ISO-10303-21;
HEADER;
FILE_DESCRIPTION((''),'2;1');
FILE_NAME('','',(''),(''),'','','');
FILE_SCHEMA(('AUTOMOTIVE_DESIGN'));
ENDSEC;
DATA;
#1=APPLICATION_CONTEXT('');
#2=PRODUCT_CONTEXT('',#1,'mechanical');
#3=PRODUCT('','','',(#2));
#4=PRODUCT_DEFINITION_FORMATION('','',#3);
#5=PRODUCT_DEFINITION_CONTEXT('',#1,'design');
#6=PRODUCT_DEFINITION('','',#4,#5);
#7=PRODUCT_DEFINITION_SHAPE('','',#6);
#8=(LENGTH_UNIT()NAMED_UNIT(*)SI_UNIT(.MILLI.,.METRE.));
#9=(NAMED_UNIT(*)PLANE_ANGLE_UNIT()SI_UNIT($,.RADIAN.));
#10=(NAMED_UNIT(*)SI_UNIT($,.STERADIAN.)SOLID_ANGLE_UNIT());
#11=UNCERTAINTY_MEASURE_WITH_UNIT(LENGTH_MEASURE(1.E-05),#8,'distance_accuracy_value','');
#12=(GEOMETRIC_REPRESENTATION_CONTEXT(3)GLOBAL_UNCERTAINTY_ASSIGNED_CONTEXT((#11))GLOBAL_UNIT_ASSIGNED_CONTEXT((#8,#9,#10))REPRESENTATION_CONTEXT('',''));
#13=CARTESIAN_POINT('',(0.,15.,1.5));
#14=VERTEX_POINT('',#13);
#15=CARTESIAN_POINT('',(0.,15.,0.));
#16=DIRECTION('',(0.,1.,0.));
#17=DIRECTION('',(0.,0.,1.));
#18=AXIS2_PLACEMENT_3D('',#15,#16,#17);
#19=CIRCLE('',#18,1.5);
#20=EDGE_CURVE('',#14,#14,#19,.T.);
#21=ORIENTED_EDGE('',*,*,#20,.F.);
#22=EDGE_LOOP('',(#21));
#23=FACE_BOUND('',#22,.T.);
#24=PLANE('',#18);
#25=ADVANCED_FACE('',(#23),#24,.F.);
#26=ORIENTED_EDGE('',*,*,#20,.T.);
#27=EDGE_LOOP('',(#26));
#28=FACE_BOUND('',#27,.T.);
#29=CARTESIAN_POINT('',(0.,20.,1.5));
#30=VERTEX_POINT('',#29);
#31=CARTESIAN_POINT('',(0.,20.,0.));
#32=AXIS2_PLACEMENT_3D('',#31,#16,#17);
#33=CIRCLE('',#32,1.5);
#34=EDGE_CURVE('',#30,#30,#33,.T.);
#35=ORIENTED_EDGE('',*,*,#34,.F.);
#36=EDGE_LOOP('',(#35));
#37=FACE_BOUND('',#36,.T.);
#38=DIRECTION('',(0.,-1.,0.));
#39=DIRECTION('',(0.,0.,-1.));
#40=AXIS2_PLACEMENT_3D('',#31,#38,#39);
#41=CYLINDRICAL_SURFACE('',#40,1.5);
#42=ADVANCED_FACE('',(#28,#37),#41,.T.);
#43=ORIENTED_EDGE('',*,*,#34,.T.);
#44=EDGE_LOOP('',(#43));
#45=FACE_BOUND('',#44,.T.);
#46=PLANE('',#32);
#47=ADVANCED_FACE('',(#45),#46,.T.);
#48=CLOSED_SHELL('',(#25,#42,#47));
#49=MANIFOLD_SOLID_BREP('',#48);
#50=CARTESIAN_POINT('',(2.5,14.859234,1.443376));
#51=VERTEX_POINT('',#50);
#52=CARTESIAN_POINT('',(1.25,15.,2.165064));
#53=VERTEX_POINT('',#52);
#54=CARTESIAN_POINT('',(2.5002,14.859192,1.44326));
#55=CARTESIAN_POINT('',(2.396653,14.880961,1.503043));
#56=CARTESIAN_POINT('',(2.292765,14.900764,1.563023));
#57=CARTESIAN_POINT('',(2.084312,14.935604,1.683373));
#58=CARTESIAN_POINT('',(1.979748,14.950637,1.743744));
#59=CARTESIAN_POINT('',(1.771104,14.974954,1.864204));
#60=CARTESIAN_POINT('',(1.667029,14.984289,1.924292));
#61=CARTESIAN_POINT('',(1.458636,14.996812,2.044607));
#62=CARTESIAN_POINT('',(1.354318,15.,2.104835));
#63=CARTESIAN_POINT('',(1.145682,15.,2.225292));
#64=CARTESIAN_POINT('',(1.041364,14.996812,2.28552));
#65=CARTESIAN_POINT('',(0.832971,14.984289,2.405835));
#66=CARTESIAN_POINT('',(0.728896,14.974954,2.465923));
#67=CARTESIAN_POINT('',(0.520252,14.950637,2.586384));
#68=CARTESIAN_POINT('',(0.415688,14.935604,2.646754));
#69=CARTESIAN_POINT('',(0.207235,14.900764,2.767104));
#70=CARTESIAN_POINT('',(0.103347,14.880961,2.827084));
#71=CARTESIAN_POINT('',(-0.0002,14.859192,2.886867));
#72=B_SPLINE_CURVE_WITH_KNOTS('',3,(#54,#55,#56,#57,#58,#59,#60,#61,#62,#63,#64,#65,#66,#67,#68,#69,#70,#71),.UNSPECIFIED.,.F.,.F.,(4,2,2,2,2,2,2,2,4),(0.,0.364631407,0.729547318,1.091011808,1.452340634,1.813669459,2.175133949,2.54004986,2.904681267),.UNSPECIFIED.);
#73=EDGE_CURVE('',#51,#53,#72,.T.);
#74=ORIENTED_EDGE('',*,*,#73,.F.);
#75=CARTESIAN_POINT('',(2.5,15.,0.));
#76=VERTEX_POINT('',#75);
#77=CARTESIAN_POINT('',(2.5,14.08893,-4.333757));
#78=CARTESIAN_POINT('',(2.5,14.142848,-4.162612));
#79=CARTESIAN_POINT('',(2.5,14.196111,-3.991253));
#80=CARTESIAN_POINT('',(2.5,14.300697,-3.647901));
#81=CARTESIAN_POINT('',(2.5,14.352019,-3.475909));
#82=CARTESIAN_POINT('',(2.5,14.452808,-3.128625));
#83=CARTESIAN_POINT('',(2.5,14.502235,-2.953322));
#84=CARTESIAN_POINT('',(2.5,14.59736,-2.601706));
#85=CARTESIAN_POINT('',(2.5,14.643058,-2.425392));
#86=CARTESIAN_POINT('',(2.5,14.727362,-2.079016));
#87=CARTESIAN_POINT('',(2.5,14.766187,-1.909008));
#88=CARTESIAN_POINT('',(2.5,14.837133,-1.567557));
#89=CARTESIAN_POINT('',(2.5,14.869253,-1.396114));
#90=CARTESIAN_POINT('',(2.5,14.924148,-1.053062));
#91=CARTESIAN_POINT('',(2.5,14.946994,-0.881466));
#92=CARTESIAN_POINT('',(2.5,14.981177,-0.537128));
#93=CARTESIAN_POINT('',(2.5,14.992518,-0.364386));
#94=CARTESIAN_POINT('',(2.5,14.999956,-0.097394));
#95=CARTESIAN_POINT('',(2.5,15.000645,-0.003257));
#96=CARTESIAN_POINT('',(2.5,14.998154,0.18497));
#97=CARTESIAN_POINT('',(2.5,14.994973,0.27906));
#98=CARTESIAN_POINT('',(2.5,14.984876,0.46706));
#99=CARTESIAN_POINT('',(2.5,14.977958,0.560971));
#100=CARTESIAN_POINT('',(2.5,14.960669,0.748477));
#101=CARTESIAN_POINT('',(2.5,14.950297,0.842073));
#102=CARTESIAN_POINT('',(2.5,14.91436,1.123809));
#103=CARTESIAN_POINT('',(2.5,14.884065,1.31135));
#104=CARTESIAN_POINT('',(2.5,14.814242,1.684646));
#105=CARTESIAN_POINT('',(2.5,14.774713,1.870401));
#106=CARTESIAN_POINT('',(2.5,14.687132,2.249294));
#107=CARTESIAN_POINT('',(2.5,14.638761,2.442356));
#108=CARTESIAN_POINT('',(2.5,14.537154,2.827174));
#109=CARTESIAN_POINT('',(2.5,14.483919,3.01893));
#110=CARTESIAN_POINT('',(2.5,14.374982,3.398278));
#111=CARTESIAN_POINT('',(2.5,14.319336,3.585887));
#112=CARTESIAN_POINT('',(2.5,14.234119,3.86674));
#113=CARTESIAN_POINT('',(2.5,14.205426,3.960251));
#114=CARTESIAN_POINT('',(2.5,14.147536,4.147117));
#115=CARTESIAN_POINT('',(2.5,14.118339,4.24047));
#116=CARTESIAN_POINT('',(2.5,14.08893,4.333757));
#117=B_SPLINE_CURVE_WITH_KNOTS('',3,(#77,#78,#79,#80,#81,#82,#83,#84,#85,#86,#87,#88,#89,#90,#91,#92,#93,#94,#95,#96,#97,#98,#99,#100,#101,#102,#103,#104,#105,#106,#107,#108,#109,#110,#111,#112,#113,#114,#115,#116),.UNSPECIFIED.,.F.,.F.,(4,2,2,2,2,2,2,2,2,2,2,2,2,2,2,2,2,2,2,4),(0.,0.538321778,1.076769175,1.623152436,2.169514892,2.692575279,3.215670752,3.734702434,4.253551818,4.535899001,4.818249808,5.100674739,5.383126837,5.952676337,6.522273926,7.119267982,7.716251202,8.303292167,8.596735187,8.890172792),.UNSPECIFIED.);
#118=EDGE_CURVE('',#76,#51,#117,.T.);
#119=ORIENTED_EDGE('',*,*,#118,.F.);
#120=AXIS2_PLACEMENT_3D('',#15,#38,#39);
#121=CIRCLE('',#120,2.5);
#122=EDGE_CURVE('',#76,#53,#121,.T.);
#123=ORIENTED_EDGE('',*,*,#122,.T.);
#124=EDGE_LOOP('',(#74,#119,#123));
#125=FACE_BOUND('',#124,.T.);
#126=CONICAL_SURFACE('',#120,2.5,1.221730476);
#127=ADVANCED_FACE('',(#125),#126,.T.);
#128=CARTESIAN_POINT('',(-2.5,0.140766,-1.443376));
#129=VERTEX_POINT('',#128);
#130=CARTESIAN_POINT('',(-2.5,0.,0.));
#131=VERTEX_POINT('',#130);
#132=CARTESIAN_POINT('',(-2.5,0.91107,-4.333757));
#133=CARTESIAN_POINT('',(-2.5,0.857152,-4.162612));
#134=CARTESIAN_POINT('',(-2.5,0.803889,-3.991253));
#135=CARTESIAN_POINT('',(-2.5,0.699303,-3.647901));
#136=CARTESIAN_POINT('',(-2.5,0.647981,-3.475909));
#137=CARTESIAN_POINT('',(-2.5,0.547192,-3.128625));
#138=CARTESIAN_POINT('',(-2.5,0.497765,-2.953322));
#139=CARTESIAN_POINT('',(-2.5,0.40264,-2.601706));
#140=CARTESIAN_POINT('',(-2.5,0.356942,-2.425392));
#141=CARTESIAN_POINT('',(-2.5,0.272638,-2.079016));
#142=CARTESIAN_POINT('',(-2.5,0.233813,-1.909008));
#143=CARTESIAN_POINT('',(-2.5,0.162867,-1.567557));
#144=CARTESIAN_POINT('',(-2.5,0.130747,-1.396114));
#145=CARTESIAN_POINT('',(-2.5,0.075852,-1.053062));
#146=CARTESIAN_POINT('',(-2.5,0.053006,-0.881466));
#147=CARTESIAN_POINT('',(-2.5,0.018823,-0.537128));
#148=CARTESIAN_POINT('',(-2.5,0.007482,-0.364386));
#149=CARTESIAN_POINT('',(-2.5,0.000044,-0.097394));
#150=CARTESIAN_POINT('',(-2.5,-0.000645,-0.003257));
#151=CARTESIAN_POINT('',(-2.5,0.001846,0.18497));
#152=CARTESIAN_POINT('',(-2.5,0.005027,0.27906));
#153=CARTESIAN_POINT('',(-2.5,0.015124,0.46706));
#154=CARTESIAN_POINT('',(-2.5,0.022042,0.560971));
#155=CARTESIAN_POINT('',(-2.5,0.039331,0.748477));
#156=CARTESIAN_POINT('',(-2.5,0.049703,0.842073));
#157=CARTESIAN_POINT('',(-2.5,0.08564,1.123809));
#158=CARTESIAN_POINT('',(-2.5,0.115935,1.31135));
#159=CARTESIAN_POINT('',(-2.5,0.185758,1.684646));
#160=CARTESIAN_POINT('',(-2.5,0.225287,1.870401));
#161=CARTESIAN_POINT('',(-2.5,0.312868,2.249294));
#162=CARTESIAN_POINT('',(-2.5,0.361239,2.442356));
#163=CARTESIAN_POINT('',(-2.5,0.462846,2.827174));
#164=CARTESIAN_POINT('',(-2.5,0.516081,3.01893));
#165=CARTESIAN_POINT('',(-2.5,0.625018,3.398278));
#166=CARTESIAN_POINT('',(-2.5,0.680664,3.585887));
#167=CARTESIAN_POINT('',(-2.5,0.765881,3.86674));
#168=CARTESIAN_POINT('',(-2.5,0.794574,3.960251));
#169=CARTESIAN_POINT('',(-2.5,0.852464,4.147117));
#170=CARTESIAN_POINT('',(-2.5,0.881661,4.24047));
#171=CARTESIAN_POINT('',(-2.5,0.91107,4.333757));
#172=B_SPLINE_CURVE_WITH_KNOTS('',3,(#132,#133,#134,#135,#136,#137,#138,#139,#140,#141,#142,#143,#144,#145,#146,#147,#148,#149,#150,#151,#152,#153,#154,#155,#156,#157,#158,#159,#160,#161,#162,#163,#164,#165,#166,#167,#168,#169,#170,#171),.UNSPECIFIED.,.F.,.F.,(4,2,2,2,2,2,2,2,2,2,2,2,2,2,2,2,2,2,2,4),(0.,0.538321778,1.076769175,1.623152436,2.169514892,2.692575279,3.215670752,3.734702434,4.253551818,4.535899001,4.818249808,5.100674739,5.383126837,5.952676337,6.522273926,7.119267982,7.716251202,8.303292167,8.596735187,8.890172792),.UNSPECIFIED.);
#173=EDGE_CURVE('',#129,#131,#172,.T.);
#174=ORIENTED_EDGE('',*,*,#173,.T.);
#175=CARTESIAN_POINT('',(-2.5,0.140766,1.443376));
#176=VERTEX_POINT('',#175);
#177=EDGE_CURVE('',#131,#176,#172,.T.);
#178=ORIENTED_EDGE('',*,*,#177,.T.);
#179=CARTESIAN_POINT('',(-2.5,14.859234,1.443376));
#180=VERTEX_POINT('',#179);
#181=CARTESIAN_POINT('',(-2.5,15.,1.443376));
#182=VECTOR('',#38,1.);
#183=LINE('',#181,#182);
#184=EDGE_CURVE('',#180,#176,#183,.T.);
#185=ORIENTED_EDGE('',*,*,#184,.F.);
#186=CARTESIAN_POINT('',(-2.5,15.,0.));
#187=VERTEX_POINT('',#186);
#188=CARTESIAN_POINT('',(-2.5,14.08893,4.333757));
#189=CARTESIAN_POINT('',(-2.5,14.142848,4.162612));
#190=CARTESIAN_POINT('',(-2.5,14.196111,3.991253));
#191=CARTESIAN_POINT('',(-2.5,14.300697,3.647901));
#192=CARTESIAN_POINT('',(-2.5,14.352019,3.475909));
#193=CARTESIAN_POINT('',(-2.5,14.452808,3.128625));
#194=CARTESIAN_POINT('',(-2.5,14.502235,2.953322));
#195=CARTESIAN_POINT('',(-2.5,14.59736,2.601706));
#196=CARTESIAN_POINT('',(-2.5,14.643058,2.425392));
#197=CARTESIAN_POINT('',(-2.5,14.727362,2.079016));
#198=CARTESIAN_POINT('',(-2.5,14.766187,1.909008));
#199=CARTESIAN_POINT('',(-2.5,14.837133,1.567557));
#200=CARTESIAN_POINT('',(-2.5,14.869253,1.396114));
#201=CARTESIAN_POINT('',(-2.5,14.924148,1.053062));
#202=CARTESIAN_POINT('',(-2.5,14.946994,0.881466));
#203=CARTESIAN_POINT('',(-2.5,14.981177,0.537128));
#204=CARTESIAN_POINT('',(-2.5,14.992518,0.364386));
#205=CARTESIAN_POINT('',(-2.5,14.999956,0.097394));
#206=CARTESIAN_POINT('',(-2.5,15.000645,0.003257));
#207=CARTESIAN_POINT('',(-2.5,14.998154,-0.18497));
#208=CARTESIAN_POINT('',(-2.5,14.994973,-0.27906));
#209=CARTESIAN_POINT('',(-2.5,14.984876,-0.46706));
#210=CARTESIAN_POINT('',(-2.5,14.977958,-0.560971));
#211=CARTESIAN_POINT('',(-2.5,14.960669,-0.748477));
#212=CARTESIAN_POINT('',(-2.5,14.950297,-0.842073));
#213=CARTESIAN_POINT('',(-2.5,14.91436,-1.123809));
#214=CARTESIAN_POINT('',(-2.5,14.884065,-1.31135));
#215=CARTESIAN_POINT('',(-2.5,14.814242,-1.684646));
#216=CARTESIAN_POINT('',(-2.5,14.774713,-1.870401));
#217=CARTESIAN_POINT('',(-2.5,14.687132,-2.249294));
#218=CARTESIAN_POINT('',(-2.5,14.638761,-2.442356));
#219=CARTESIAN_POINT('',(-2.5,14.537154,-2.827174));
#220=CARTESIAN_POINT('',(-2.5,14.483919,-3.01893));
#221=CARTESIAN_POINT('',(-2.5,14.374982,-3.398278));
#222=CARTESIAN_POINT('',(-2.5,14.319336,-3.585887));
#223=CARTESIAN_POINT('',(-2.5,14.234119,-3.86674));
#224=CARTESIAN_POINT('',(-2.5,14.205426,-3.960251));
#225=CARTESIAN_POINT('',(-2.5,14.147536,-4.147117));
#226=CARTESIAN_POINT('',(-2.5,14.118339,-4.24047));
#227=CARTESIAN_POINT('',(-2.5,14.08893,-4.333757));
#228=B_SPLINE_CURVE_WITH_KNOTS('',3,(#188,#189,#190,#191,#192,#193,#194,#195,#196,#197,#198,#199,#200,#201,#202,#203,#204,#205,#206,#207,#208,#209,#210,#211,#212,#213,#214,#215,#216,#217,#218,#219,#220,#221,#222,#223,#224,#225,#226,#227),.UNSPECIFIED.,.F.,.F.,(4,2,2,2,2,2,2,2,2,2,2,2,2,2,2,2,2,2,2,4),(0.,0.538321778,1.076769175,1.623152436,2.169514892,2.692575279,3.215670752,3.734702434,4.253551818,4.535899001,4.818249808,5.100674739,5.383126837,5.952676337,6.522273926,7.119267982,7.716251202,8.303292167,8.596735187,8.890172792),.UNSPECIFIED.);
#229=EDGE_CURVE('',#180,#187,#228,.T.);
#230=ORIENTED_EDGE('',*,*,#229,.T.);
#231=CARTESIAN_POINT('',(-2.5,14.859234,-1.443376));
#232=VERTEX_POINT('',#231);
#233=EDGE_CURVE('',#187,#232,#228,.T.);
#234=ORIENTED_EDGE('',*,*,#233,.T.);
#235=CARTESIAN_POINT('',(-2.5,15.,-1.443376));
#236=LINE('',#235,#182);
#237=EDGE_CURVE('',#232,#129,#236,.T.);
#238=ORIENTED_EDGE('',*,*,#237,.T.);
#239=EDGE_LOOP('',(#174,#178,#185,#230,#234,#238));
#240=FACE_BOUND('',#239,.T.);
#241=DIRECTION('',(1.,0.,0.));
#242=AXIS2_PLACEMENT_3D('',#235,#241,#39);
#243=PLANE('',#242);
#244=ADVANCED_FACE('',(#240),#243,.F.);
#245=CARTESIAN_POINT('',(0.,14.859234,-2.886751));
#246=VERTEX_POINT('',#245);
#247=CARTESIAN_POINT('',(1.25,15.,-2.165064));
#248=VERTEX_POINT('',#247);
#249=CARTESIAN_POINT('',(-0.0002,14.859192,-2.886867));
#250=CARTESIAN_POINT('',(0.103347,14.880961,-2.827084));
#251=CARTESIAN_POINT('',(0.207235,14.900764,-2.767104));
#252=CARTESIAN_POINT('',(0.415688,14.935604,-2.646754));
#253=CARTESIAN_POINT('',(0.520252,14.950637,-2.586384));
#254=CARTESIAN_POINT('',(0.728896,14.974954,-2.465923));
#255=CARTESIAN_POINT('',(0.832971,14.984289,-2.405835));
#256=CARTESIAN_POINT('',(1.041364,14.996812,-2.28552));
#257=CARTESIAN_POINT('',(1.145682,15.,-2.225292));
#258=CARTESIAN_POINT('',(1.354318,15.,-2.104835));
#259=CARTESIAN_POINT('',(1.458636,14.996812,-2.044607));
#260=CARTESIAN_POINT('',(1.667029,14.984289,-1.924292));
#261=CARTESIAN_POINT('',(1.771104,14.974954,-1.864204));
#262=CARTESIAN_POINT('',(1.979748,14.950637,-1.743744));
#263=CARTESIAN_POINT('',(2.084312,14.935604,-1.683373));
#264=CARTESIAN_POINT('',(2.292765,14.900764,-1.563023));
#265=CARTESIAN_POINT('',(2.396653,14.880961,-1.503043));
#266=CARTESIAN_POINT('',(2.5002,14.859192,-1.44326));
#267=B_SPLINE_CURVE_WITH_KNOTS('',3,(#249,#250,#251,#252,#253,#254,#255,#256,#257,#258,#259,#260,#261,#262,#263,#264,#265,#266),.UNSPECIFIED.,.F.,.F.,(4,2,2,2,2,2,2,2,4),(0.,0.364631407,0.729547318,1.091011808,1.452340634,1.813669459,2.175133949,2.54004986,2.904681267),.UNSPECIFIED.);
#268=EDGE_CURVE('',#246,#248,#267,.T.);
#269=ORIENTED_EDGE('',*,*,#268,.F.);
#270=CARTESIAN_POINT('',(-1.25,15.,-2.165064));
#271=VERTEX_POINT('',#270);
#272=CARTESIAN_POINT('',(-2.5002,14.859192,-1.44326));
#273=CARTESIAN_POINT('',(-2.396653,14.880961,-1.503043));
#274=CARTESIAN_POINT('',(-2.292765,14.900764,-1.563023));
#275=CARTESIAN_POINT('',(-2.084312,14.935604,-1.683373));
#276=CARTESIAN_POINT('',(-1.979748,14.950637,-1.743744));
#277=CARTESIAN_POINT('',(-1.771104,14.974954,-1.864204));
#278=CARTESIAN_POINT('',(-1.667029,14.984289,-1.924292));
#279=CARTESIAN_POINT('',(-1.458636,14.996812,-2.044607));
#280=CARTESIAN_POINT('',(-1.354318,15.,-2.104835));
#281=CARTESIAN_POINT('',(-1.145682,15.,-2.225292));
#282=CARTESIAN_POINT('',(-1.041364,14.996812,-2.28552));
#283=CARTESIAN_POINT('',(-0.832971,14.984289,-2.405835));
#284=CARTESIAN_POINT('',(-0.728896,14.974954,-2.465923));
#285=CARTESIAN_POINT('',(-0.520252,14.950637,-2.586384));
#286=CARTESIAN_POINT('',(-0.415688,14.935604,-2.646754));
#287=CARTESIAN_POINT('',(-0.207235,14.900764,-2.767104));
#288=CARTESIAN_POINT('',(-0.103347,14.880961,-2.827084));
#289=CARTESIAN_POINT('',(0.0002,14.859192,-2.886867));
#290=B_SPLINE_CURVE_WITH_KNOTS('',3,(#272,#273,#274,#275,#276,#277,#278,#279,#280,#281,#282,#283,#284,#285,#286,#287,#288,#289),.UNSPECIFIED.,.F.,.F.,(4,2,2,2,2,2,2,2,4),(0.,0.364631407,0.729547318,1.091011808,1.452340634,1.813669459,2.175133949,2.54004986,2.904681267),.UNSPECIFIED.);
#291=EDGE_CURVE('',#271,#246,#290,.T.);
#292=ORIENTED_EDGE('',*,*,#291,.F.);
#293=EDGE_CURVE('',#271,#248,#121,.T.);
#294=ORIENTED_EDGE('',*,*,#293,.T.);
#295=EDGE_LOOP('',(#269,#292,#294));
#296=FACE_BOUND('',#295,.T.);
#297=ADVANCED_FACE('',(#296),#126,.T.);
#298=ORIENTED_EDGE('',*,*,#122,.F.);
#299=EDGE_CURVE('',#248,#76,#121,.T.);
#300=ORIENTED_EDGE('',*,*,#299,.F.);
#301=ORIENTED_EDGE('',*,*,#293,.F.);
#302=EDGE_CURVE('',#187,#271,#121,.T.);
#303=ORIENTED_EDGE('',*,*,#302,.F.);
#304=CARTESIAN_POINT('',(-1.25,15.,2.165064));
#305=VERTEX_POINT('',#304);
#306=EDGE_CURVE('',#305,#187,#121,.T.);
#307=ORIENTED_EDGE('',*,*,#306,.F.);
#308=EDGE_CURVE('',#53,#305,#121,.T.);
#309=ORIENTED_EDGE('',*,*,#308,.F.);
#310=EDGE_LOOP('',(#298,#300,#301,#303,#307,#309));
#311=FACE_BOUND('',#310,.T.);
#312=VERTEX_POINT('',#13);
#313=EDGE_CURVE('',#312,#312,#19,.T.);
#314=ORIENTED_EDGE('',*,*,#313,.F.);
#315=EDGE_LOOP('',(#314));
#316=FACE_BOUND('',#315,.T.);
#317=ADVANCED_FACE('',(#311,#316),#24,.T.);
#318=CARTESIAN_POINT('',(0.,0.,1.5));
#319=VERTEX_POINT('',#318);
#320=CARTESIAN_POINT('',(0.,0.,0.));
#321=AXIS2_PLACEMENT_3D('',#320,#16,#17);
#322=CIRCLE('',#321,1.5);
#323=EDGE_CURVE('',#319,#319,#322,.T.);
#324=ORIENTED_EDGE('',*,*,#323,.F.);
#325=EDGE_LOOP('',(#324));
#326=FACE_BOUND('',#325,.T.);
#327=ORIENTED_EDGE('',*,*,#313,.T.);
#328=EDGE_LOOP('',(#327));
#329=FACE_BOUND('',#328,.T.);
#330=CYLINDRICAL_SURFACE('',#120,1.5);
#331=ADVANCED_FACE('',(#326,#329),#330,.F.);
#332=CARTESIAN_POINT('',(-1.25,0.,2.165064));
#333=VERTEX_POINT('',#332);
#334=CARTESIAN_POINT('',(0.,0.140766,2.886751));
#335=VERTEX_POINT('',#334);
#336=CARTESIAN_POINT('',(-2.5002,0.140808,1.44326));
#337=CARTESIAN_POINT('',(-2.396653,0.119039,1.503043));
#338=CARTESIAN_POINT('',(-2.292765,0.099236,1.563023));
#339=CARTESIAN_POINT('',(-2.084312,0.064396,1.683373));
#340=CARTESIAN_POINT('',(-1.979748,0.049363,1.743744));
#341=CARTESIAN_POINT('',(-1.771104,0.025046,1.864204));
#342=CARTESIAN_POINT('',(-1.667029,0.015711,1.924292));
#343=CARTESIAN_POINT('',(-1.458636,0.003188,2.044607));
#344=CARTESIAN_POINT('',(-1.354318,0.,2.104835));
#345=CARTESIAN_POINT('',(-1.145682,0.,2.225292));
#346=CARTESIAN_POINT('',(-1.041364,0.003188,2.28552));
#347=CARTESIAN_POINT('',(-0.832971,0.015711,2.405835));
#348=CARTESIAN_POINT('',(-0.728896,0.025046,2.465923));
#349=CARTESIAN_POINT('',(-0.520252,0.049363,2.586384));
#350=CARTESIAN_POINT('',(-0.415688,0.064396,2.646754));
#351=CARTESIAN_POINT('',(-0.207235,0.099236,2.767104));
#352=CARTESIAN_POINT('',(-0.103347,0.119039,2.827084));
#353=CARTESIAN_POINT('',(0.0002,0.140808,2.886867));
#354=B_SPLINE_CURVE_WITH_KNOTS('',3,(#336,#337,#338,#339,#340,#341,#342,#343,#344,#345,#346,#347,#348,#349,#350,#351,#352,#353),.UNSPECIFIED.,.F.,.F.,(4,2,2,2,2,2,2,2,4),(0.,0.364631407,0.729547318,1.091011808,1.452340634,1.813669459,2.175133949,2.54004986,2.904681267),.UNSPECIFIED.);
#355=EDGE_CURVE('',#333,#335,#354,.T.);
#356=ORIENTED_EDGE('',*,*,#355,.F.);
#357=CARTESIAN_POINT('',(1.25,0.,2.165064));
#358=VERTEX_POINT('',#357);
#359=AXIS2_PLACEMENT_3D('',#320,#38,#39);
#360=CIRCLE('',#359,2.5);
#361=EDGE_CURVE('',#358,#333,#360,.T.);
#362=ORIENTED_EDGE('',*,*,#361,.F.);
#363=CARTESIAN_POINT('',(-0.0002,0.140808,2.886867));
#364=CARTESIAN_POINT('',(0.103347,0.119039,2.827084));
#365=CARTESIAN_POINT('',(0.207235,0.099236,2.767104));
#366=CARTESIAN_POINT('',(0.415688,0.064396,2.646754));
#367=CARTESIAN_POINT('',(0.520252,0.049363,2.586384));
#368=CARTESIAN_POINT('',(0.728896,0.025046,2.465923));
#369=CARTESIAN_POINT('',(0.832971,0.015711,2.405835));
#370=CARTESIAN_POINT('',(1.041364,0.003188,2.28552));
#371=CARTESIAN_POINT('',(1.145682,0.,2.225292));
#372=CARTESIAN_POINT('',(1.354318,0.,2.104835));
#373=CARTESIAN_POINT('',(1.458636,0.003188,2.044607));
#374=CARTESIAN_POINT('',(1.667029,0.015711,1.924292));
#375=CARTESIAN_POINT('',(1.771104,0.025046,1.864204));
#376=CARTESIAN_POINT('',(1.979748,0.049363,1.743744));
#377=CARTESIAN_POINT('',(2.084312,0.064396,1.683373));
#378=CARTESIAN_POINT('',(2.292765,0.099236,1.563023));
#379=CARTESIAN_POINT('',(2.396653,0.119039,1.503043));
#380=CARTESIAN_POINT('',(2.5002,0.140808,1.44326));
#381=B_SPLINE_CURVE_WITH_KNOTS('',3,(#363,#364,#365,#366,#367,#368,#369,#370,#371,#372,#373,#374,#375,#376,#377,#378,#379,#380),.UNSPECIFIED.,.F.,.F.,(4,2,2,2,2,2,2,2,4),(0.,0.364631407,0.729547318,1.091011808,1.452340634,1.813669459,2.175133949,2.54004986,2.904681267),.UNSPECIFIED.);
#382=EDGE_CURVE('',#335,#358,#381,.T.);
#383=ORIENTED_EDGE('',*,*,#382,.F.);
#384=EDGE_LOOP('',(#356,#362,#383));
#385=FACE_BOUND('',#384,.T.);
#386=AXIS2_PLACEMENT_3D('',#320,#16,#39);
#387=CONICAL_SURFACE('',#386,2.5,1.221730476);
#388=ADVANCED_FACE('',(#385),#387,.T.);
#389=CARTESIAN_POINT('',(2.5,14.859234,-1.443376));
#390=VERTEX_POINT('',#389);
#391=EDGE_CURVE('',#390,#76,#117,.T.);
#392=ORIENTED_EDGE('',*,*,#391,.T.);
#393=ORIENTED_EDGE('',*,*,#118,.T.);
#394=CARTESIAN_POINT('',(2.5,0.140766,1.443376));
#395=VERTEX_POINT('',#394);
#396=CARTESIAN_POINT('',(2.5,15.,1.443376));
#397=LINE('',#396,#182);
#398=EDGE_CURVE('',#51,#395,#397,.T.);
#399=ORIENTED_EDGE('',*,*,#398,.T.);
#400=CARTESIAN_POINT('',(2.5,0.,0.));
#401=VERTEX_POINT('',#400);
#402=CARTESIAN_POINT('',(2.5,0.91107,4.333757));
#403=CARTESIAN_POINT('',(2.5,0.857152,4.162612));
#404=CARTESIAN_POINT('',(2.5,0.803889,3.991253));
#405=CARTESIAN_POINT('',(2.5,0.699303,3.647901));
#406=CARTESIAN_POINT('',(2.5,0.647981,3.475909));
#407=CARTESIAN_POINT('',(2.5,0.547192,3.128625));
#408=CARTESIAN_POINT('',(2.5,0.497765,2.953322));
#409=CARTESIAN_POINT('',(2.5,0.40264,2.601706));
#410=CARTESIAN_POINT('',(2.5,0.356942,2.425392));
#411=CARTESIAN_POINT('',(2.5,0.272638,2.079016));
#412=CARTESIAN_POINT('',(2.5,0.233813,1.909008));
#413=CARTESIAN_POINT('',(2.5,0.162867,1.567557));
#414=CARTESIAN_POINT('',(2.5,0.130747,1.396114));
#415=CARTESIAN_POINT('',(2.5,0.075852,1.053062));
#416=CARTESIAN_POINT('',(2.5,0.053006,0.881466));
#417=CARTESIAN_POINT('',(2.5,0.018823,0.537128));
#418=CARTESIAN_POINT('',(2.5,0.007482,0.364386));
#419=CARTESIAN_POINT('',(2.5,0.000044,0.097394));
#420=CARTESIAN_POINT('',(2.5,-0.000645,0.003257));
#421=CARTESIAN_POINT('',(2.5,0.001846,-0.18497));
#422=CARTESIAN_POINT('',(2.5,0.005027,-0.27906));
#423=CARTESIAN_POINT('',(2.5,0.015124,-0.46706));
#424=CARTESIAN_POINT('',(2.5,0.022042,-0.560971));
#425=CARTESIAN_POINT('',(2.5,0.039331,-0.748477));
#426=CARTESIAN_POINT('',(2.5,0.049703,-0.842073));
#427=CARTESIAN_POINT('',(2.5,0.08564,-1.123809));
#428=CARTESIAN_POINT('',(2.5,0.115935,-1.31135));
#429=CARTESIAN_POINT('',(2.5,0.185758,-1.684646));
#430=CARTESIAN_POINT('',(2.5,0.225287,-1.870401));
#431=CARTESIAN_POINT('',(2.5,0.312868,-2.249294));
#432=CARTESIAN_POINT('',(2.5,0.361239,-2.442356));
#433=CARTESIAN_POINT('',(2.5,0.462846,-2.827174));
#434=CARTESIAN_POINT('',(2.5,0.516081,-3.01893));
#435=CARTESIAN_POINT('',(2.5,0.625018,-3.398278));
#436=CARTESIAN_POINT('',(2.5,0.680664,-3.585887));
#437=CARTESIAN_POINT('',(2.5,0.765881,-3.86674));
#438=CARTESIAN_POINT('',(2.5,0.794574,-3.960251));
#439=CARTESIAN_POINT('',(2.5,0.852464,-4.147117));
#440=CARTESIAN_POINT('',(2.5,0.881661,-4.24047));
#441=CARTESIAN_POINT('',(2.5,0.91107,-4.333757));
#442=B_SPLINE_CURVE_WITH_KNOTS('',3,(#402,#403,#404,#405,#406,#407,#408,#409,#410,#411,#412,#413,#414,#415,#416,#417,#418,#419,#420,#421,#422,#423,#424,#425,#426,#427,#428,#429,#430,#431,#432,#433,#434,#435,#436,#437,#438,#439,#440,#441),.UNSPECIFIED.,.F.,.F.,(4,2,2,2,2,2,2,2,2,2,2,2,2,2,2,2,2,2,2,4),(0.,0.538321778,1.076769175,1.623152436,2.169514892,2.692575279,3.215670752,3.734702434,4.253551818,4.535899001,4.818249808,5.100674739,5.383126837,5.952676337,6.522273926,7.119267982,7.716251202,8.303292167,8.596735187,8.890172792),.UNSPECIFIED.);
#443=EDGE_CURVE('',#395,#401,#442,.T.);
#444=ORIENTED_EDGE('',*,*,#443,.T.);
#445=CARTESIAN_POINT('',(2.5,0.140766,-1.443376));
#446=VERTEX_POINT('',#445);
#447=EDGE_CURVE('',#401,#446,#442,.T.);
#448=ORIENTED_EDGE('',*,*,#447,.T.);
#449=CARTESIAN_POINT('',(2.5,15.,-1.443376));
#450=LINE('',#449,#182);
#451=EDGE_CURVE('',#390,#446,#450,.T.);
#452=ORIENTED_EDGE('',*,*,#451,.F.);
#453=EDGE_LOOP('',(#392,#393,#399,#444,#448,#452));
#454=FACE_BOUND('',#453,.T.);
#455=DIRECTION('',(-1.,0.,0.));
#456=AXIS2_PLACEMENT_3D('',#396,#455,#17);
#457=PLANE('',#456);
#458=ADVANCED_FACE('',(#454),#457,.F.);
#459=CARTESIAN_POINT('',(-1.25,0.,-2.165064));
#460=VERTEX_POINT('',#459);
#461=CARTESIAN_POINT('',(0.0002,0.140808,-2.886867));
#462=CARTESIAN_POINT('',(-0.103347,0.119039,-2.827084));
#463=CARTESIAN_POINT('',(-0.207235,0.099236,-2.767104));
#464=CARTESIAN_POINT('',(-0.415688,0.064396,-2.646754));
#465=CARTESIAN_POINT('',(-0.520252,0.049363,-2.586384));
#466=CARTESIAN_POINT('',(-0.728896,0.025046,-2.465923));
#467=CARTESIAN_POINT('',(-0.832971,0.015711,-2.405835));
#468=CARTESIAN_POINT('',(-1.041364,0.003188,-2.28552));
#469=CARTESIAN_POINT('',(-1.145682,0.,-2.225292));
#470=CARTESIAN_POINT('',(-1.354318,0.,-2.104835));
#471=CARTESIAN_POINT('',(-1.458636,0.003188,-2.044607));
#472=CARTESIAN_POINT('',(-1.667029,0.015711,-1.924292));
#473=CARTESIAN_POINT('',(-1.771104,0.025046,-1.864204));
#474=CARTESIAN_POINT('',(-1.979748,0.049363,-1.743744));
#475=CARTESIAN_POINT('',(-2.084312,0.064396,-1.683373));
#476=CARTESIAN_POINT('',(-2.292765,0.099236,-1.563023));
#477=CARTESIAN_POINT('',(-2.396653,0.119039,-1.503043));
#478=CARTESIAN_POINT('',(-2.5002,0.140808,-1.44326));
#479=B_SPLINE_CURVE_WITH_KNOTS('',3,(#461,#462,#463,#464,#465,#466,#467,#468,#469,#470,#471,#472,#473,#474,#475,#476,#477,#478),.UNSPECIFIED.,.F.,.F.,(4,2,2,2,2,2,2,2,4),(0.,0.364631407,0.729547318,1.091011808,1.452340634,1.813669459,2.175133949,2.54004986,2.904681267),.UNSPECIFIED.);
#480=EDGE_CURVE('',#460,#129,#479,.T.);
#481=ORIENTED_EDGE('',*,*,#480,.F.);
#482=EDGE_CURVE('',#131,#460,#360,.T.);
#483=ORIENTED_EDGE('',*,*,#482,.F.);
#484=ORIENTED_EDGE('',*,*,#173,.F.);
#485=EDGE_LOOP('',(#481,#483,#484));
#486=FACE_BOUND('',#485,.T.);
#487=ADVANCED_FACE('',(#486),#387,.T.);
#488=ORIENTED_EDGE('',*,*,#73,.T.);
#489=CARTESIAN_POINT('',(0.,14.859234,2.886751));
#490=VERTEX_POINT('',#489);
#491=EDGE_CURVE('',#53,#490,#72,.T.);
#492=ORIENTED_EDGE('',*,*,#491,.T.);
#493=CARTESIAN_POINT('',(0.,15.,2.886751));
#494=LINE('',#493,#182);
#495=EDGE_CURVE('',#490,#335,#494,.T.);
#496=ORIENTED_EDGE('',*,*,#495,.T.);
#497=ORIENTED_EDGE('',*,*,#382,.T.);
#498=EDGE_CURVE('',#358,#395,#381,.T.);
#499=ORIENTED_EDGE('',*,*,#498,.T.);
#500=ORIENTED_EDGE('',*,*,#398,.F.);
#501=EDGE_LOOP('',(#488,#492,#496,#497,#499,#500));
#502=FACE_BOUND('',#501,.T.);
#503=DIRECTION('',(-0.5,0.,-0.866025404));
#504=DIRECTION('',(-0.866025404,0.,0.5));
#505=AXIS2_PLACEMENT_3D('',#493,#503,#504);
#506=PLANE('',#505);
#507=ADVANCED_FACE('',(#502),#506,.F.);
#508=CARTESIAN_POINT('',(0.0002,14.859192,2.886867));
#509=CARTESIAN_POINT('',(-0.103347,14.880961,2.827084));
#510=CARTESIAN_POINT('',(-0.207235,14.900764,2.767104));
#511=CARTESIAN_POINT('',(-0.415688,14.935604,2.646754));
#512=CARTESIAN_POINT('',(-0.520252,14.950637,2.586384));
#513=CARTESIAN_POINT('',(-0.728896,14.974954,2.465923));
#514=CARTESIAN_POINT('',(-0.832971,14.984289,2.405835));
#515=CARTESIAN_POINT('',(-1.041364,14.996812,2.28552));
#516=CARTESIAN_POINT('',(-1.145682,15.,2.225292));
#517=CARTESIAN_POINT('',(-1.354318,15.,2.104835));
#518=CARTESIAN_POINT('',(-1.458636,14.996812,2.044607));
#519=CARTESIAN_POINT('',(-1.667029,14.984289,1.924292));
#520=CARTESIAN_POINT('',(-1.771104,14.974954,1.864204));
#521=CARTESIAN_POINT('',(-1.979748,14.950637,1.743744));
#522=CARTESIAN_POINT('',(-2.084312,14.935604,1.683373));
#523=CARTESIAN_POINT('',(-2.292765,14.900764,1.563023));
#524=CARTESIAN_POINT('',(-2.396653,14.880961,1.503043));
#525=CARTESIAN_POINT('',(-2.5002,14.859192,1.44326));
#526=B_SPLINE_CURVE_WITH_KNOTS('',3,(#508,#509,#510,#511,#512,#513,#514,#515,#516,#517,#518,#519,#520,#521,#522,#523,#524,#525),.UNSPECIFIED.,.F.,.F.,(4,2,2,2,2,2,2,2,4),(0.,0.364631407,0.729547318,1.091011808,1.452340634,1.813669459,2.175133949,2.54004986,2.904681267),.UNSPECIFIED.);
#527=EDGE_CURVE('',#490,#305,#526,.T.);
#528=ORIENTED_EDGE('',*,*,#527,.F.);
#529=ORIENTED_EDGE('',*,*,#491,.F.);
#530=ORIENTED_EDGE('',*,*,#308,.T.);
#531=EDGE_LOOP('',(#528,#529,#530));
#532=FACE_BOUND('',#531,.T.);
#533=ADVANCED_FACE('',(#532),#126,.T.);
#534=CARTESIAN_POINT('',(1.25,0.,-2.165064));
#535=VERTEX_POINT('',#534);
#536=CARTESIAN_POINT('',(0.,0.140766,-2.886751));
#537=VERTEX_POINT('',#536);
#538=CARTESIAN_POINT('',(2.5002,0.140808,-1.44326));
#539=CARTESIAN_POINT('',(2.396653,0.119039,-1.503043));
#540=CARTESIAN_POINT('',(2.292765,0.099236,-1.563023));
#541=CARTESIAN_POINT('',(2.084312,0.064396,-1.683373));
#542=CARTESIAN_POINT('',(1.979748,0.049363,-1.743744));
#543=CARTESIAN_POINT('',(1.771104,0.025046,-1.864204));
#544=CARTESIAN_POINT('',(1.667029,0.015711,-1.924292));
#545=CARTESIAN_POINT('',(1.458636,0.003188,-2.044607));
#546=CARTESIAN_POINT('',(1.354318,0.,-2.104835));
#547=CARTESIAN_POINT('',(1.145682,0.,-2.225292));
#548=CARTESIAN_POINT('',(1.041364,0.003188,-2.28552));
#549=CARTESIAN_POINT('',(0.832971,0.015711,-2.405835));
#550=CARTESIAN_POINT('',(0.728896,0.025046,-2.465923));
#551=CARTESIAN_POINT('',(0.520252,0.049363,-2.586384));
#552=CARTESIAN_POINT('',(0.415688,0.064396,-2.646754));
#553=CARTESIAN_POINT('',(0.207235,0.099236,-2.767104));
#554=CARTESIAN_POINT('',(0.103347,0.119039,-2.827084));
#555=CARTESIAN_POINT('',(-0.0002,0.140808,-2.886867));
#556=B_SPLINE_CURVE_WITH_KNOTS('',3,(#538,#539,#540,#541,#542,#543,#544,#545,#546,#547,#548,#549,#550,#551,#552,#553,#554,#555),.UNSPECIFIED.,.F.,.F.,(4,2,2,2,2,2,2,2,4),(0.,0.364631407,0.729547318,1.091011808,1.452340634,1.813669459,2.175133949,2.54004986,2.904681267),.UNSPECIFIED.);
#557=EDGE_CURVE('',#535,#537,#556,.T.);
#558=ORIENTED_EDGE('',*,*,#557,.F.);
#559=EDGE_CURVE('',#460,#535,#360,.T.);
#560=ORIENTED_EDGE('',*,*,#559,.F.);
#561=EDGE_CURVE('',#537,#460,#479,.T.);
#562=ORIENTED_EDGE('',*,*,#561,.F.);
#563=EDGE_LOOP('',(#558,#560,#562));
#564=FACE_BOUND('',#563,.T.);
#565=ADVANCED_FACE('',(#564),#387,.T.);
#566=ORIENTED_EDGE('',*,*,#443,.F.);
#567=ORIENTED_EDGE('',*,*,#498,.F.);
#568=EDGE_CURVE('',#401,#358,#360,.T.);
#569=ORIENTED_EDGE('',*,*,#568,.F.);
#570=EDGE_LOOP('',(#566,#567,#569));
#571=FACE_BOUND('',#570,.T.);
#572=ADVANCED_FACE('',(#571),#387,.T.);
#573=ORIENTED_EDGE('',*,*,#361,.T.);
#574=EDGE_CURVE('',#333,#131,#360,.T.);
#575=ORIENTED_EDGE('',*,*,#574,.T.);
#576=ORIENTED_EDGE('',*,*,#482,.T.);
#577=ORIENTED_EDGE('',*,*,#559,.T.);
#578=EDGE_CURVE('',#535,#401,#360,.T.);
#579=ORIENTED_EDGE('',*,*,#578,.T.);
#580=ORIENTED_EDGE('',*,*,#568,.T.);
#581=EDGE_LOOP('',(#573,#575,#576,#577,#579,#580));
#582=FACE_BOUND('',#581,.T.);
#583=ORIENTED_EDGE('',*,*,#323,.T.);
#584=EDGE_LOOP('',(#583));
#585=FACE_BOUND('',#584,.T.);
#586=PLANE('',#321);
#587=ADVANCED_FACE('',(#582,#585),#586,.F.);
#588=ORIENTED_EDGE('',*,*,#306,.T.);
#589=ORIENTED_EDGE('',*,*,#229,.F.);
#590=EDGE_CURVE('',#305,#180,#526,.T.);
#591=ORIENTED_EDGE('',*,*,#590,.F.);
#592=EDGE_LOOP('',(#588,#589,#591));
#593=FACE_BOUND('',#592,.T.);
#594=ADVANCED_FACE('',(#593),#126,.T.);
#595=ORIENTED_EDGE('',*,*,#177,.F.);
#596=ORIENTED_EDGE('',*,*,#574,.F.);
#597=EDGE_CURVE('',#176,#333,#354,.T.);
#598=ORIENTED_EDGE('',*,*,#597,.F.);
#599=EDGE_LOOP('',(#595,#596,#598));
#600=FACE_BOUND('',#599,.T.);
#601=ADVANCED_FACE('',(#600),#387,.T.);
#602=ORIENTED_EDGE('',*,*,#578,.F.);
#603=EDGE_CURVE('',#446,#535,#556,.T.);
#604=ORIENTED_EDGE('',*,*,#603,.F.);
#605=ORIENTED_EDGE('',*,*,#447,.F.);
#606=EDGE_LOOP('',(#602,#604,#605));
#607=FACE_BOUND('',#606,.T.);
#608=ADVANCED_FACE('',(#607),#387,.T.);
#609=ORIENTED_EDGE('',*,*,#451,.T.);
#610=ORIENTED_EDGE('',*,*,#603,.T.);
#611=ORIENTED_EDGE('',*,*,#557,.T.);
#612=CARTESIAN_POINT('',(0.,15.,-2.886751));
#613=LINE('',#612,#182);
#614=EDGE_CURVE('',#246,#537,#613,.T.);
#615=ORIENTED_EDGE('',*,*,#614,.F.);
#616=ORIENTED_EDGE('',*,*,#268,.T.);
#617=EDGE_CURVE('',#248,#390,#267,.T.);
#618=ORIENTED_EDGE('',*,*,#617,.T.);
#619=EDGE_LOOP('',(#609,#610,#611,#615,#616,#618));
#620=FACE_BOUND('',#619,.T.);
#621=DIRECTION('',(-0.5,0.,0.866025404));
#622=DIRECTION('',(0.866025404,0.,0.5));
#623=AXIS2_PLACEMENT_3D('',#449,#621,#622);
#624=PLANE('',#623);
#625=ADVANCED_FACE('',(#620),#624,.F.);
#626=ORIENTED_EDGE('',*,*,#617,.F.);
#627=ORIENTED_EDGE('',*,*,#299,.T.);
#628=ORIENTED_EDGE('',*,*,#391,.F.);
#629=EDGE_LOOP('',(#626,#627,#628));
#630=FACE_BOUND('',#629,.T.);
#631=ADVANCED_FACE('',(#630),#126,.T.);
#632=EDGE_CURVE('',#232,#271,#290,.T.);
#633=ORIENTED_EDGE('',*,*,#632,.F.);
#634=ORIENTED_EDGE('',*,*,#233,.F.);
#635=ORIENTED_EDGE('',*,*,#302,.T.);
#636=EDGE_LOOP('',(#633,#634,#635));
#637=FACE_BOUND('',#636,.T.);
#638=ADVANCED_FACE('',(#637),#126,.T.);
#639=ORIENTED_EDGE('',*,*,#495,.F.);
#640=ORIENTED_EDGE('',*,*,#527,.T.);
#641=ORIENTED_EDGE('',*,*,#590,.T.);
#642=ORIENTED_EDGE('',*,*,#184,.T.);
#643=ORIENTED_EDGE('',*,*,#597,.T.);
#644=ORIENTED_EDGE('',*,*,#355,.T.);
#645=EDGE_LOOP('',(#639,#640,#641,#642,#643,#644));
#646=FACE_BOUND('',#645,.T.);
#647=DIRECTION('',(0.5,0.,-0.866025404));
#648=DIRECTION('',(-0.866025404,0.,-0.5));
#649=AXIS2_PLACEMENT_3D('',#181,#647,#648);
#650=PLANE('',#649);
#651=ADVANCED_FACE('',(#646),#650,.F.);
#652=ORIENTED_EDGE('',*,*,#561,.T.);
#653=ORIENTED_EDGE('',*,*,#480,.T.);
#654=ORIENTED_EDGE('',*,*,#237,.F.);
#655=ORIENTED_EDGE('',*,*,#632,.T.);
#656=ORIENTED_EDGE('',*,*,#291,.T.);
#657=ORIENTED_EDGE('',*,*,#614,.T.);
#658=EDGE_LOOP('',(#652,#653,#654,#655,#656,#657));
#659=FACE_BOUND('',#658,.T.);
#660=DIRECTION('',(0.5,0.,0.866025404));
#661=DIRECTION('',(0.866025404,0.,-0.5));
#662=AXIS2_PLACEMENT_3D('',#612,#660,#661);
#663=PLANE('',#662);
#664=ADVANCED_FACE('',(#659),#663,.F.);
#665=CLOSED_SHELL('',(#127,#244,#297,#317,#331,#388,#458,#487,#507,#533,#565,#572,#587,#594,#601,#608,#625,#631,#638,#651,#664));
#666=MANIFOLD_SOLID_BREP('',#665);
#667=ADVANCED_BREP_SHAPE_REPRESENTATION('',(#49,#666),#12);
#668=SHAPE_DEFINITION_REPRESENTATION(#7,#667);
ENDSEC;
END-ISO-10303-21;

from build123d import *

# Parameters (mm, degrees)
SKETCH1_R           = 1.5
BOSS_EXTRUDE1_DEPTH = 15
SKETCH7_R           = 1.5
BOSS_EXTRUDE2_DEPTH = 5


with BuildPart() as part:
    # Sketch1 → Boss-Extrude1 (new body)
    with BuildSketch(Plane(origin=(0, 0, 0), x_dir=(1, 0, 0), z_dir=(0, 1, 0))):
        Polygon((0, 2.886751346), (-2.5, 1.443375673), (-2.5, -1.443375673), (0, -2.886751346), (2.5, -1.443375673), (2.5, 1.443375673), align=None)
        with Locations(Location((0, 0, 0), (0, 0, 270))):
            Circle(SKETCH1_R, mode=Mode.SUBTRACT)
    extrude(amount=BOSS_EXTRUDE1_DEPTH)

    # Sketch6 → Cut-Revolve1 (revolve, cut)
    with BuildSketch(Plane.ZY):
        Polygon((2.5, 15), (2.886751346, 15), (2.886751346, 14.859234022), align=None)
    cut_revolve1 = revolve(axis=Axis((0, 15, 0), (0, 1, 0)), mode=Mode.SUBTRACT)

    # Mirror1: Cut-Revolve1 across plane
    add(cut_revolve1.mirror(Plane.ZX.offset(7.5)), mode=Mode.SUBTRACT)


with BuildPart() as body_2:
    # Sketch7 → Boss-Extrude2 (new body)
    with BuildSketch(Plane(origin=(0, 15, 0), x_dir=(1, 0, 0), z_dir=(0, 1, 0))):
        with Locations(Location((0, 0, 0), (0, 0, 270))):
            Circle(SKETCH7_R)
    extrude(amount=BOSS_EXTRUDE2_DEPTH)


solid = Compound([part.part, body_2.part])
